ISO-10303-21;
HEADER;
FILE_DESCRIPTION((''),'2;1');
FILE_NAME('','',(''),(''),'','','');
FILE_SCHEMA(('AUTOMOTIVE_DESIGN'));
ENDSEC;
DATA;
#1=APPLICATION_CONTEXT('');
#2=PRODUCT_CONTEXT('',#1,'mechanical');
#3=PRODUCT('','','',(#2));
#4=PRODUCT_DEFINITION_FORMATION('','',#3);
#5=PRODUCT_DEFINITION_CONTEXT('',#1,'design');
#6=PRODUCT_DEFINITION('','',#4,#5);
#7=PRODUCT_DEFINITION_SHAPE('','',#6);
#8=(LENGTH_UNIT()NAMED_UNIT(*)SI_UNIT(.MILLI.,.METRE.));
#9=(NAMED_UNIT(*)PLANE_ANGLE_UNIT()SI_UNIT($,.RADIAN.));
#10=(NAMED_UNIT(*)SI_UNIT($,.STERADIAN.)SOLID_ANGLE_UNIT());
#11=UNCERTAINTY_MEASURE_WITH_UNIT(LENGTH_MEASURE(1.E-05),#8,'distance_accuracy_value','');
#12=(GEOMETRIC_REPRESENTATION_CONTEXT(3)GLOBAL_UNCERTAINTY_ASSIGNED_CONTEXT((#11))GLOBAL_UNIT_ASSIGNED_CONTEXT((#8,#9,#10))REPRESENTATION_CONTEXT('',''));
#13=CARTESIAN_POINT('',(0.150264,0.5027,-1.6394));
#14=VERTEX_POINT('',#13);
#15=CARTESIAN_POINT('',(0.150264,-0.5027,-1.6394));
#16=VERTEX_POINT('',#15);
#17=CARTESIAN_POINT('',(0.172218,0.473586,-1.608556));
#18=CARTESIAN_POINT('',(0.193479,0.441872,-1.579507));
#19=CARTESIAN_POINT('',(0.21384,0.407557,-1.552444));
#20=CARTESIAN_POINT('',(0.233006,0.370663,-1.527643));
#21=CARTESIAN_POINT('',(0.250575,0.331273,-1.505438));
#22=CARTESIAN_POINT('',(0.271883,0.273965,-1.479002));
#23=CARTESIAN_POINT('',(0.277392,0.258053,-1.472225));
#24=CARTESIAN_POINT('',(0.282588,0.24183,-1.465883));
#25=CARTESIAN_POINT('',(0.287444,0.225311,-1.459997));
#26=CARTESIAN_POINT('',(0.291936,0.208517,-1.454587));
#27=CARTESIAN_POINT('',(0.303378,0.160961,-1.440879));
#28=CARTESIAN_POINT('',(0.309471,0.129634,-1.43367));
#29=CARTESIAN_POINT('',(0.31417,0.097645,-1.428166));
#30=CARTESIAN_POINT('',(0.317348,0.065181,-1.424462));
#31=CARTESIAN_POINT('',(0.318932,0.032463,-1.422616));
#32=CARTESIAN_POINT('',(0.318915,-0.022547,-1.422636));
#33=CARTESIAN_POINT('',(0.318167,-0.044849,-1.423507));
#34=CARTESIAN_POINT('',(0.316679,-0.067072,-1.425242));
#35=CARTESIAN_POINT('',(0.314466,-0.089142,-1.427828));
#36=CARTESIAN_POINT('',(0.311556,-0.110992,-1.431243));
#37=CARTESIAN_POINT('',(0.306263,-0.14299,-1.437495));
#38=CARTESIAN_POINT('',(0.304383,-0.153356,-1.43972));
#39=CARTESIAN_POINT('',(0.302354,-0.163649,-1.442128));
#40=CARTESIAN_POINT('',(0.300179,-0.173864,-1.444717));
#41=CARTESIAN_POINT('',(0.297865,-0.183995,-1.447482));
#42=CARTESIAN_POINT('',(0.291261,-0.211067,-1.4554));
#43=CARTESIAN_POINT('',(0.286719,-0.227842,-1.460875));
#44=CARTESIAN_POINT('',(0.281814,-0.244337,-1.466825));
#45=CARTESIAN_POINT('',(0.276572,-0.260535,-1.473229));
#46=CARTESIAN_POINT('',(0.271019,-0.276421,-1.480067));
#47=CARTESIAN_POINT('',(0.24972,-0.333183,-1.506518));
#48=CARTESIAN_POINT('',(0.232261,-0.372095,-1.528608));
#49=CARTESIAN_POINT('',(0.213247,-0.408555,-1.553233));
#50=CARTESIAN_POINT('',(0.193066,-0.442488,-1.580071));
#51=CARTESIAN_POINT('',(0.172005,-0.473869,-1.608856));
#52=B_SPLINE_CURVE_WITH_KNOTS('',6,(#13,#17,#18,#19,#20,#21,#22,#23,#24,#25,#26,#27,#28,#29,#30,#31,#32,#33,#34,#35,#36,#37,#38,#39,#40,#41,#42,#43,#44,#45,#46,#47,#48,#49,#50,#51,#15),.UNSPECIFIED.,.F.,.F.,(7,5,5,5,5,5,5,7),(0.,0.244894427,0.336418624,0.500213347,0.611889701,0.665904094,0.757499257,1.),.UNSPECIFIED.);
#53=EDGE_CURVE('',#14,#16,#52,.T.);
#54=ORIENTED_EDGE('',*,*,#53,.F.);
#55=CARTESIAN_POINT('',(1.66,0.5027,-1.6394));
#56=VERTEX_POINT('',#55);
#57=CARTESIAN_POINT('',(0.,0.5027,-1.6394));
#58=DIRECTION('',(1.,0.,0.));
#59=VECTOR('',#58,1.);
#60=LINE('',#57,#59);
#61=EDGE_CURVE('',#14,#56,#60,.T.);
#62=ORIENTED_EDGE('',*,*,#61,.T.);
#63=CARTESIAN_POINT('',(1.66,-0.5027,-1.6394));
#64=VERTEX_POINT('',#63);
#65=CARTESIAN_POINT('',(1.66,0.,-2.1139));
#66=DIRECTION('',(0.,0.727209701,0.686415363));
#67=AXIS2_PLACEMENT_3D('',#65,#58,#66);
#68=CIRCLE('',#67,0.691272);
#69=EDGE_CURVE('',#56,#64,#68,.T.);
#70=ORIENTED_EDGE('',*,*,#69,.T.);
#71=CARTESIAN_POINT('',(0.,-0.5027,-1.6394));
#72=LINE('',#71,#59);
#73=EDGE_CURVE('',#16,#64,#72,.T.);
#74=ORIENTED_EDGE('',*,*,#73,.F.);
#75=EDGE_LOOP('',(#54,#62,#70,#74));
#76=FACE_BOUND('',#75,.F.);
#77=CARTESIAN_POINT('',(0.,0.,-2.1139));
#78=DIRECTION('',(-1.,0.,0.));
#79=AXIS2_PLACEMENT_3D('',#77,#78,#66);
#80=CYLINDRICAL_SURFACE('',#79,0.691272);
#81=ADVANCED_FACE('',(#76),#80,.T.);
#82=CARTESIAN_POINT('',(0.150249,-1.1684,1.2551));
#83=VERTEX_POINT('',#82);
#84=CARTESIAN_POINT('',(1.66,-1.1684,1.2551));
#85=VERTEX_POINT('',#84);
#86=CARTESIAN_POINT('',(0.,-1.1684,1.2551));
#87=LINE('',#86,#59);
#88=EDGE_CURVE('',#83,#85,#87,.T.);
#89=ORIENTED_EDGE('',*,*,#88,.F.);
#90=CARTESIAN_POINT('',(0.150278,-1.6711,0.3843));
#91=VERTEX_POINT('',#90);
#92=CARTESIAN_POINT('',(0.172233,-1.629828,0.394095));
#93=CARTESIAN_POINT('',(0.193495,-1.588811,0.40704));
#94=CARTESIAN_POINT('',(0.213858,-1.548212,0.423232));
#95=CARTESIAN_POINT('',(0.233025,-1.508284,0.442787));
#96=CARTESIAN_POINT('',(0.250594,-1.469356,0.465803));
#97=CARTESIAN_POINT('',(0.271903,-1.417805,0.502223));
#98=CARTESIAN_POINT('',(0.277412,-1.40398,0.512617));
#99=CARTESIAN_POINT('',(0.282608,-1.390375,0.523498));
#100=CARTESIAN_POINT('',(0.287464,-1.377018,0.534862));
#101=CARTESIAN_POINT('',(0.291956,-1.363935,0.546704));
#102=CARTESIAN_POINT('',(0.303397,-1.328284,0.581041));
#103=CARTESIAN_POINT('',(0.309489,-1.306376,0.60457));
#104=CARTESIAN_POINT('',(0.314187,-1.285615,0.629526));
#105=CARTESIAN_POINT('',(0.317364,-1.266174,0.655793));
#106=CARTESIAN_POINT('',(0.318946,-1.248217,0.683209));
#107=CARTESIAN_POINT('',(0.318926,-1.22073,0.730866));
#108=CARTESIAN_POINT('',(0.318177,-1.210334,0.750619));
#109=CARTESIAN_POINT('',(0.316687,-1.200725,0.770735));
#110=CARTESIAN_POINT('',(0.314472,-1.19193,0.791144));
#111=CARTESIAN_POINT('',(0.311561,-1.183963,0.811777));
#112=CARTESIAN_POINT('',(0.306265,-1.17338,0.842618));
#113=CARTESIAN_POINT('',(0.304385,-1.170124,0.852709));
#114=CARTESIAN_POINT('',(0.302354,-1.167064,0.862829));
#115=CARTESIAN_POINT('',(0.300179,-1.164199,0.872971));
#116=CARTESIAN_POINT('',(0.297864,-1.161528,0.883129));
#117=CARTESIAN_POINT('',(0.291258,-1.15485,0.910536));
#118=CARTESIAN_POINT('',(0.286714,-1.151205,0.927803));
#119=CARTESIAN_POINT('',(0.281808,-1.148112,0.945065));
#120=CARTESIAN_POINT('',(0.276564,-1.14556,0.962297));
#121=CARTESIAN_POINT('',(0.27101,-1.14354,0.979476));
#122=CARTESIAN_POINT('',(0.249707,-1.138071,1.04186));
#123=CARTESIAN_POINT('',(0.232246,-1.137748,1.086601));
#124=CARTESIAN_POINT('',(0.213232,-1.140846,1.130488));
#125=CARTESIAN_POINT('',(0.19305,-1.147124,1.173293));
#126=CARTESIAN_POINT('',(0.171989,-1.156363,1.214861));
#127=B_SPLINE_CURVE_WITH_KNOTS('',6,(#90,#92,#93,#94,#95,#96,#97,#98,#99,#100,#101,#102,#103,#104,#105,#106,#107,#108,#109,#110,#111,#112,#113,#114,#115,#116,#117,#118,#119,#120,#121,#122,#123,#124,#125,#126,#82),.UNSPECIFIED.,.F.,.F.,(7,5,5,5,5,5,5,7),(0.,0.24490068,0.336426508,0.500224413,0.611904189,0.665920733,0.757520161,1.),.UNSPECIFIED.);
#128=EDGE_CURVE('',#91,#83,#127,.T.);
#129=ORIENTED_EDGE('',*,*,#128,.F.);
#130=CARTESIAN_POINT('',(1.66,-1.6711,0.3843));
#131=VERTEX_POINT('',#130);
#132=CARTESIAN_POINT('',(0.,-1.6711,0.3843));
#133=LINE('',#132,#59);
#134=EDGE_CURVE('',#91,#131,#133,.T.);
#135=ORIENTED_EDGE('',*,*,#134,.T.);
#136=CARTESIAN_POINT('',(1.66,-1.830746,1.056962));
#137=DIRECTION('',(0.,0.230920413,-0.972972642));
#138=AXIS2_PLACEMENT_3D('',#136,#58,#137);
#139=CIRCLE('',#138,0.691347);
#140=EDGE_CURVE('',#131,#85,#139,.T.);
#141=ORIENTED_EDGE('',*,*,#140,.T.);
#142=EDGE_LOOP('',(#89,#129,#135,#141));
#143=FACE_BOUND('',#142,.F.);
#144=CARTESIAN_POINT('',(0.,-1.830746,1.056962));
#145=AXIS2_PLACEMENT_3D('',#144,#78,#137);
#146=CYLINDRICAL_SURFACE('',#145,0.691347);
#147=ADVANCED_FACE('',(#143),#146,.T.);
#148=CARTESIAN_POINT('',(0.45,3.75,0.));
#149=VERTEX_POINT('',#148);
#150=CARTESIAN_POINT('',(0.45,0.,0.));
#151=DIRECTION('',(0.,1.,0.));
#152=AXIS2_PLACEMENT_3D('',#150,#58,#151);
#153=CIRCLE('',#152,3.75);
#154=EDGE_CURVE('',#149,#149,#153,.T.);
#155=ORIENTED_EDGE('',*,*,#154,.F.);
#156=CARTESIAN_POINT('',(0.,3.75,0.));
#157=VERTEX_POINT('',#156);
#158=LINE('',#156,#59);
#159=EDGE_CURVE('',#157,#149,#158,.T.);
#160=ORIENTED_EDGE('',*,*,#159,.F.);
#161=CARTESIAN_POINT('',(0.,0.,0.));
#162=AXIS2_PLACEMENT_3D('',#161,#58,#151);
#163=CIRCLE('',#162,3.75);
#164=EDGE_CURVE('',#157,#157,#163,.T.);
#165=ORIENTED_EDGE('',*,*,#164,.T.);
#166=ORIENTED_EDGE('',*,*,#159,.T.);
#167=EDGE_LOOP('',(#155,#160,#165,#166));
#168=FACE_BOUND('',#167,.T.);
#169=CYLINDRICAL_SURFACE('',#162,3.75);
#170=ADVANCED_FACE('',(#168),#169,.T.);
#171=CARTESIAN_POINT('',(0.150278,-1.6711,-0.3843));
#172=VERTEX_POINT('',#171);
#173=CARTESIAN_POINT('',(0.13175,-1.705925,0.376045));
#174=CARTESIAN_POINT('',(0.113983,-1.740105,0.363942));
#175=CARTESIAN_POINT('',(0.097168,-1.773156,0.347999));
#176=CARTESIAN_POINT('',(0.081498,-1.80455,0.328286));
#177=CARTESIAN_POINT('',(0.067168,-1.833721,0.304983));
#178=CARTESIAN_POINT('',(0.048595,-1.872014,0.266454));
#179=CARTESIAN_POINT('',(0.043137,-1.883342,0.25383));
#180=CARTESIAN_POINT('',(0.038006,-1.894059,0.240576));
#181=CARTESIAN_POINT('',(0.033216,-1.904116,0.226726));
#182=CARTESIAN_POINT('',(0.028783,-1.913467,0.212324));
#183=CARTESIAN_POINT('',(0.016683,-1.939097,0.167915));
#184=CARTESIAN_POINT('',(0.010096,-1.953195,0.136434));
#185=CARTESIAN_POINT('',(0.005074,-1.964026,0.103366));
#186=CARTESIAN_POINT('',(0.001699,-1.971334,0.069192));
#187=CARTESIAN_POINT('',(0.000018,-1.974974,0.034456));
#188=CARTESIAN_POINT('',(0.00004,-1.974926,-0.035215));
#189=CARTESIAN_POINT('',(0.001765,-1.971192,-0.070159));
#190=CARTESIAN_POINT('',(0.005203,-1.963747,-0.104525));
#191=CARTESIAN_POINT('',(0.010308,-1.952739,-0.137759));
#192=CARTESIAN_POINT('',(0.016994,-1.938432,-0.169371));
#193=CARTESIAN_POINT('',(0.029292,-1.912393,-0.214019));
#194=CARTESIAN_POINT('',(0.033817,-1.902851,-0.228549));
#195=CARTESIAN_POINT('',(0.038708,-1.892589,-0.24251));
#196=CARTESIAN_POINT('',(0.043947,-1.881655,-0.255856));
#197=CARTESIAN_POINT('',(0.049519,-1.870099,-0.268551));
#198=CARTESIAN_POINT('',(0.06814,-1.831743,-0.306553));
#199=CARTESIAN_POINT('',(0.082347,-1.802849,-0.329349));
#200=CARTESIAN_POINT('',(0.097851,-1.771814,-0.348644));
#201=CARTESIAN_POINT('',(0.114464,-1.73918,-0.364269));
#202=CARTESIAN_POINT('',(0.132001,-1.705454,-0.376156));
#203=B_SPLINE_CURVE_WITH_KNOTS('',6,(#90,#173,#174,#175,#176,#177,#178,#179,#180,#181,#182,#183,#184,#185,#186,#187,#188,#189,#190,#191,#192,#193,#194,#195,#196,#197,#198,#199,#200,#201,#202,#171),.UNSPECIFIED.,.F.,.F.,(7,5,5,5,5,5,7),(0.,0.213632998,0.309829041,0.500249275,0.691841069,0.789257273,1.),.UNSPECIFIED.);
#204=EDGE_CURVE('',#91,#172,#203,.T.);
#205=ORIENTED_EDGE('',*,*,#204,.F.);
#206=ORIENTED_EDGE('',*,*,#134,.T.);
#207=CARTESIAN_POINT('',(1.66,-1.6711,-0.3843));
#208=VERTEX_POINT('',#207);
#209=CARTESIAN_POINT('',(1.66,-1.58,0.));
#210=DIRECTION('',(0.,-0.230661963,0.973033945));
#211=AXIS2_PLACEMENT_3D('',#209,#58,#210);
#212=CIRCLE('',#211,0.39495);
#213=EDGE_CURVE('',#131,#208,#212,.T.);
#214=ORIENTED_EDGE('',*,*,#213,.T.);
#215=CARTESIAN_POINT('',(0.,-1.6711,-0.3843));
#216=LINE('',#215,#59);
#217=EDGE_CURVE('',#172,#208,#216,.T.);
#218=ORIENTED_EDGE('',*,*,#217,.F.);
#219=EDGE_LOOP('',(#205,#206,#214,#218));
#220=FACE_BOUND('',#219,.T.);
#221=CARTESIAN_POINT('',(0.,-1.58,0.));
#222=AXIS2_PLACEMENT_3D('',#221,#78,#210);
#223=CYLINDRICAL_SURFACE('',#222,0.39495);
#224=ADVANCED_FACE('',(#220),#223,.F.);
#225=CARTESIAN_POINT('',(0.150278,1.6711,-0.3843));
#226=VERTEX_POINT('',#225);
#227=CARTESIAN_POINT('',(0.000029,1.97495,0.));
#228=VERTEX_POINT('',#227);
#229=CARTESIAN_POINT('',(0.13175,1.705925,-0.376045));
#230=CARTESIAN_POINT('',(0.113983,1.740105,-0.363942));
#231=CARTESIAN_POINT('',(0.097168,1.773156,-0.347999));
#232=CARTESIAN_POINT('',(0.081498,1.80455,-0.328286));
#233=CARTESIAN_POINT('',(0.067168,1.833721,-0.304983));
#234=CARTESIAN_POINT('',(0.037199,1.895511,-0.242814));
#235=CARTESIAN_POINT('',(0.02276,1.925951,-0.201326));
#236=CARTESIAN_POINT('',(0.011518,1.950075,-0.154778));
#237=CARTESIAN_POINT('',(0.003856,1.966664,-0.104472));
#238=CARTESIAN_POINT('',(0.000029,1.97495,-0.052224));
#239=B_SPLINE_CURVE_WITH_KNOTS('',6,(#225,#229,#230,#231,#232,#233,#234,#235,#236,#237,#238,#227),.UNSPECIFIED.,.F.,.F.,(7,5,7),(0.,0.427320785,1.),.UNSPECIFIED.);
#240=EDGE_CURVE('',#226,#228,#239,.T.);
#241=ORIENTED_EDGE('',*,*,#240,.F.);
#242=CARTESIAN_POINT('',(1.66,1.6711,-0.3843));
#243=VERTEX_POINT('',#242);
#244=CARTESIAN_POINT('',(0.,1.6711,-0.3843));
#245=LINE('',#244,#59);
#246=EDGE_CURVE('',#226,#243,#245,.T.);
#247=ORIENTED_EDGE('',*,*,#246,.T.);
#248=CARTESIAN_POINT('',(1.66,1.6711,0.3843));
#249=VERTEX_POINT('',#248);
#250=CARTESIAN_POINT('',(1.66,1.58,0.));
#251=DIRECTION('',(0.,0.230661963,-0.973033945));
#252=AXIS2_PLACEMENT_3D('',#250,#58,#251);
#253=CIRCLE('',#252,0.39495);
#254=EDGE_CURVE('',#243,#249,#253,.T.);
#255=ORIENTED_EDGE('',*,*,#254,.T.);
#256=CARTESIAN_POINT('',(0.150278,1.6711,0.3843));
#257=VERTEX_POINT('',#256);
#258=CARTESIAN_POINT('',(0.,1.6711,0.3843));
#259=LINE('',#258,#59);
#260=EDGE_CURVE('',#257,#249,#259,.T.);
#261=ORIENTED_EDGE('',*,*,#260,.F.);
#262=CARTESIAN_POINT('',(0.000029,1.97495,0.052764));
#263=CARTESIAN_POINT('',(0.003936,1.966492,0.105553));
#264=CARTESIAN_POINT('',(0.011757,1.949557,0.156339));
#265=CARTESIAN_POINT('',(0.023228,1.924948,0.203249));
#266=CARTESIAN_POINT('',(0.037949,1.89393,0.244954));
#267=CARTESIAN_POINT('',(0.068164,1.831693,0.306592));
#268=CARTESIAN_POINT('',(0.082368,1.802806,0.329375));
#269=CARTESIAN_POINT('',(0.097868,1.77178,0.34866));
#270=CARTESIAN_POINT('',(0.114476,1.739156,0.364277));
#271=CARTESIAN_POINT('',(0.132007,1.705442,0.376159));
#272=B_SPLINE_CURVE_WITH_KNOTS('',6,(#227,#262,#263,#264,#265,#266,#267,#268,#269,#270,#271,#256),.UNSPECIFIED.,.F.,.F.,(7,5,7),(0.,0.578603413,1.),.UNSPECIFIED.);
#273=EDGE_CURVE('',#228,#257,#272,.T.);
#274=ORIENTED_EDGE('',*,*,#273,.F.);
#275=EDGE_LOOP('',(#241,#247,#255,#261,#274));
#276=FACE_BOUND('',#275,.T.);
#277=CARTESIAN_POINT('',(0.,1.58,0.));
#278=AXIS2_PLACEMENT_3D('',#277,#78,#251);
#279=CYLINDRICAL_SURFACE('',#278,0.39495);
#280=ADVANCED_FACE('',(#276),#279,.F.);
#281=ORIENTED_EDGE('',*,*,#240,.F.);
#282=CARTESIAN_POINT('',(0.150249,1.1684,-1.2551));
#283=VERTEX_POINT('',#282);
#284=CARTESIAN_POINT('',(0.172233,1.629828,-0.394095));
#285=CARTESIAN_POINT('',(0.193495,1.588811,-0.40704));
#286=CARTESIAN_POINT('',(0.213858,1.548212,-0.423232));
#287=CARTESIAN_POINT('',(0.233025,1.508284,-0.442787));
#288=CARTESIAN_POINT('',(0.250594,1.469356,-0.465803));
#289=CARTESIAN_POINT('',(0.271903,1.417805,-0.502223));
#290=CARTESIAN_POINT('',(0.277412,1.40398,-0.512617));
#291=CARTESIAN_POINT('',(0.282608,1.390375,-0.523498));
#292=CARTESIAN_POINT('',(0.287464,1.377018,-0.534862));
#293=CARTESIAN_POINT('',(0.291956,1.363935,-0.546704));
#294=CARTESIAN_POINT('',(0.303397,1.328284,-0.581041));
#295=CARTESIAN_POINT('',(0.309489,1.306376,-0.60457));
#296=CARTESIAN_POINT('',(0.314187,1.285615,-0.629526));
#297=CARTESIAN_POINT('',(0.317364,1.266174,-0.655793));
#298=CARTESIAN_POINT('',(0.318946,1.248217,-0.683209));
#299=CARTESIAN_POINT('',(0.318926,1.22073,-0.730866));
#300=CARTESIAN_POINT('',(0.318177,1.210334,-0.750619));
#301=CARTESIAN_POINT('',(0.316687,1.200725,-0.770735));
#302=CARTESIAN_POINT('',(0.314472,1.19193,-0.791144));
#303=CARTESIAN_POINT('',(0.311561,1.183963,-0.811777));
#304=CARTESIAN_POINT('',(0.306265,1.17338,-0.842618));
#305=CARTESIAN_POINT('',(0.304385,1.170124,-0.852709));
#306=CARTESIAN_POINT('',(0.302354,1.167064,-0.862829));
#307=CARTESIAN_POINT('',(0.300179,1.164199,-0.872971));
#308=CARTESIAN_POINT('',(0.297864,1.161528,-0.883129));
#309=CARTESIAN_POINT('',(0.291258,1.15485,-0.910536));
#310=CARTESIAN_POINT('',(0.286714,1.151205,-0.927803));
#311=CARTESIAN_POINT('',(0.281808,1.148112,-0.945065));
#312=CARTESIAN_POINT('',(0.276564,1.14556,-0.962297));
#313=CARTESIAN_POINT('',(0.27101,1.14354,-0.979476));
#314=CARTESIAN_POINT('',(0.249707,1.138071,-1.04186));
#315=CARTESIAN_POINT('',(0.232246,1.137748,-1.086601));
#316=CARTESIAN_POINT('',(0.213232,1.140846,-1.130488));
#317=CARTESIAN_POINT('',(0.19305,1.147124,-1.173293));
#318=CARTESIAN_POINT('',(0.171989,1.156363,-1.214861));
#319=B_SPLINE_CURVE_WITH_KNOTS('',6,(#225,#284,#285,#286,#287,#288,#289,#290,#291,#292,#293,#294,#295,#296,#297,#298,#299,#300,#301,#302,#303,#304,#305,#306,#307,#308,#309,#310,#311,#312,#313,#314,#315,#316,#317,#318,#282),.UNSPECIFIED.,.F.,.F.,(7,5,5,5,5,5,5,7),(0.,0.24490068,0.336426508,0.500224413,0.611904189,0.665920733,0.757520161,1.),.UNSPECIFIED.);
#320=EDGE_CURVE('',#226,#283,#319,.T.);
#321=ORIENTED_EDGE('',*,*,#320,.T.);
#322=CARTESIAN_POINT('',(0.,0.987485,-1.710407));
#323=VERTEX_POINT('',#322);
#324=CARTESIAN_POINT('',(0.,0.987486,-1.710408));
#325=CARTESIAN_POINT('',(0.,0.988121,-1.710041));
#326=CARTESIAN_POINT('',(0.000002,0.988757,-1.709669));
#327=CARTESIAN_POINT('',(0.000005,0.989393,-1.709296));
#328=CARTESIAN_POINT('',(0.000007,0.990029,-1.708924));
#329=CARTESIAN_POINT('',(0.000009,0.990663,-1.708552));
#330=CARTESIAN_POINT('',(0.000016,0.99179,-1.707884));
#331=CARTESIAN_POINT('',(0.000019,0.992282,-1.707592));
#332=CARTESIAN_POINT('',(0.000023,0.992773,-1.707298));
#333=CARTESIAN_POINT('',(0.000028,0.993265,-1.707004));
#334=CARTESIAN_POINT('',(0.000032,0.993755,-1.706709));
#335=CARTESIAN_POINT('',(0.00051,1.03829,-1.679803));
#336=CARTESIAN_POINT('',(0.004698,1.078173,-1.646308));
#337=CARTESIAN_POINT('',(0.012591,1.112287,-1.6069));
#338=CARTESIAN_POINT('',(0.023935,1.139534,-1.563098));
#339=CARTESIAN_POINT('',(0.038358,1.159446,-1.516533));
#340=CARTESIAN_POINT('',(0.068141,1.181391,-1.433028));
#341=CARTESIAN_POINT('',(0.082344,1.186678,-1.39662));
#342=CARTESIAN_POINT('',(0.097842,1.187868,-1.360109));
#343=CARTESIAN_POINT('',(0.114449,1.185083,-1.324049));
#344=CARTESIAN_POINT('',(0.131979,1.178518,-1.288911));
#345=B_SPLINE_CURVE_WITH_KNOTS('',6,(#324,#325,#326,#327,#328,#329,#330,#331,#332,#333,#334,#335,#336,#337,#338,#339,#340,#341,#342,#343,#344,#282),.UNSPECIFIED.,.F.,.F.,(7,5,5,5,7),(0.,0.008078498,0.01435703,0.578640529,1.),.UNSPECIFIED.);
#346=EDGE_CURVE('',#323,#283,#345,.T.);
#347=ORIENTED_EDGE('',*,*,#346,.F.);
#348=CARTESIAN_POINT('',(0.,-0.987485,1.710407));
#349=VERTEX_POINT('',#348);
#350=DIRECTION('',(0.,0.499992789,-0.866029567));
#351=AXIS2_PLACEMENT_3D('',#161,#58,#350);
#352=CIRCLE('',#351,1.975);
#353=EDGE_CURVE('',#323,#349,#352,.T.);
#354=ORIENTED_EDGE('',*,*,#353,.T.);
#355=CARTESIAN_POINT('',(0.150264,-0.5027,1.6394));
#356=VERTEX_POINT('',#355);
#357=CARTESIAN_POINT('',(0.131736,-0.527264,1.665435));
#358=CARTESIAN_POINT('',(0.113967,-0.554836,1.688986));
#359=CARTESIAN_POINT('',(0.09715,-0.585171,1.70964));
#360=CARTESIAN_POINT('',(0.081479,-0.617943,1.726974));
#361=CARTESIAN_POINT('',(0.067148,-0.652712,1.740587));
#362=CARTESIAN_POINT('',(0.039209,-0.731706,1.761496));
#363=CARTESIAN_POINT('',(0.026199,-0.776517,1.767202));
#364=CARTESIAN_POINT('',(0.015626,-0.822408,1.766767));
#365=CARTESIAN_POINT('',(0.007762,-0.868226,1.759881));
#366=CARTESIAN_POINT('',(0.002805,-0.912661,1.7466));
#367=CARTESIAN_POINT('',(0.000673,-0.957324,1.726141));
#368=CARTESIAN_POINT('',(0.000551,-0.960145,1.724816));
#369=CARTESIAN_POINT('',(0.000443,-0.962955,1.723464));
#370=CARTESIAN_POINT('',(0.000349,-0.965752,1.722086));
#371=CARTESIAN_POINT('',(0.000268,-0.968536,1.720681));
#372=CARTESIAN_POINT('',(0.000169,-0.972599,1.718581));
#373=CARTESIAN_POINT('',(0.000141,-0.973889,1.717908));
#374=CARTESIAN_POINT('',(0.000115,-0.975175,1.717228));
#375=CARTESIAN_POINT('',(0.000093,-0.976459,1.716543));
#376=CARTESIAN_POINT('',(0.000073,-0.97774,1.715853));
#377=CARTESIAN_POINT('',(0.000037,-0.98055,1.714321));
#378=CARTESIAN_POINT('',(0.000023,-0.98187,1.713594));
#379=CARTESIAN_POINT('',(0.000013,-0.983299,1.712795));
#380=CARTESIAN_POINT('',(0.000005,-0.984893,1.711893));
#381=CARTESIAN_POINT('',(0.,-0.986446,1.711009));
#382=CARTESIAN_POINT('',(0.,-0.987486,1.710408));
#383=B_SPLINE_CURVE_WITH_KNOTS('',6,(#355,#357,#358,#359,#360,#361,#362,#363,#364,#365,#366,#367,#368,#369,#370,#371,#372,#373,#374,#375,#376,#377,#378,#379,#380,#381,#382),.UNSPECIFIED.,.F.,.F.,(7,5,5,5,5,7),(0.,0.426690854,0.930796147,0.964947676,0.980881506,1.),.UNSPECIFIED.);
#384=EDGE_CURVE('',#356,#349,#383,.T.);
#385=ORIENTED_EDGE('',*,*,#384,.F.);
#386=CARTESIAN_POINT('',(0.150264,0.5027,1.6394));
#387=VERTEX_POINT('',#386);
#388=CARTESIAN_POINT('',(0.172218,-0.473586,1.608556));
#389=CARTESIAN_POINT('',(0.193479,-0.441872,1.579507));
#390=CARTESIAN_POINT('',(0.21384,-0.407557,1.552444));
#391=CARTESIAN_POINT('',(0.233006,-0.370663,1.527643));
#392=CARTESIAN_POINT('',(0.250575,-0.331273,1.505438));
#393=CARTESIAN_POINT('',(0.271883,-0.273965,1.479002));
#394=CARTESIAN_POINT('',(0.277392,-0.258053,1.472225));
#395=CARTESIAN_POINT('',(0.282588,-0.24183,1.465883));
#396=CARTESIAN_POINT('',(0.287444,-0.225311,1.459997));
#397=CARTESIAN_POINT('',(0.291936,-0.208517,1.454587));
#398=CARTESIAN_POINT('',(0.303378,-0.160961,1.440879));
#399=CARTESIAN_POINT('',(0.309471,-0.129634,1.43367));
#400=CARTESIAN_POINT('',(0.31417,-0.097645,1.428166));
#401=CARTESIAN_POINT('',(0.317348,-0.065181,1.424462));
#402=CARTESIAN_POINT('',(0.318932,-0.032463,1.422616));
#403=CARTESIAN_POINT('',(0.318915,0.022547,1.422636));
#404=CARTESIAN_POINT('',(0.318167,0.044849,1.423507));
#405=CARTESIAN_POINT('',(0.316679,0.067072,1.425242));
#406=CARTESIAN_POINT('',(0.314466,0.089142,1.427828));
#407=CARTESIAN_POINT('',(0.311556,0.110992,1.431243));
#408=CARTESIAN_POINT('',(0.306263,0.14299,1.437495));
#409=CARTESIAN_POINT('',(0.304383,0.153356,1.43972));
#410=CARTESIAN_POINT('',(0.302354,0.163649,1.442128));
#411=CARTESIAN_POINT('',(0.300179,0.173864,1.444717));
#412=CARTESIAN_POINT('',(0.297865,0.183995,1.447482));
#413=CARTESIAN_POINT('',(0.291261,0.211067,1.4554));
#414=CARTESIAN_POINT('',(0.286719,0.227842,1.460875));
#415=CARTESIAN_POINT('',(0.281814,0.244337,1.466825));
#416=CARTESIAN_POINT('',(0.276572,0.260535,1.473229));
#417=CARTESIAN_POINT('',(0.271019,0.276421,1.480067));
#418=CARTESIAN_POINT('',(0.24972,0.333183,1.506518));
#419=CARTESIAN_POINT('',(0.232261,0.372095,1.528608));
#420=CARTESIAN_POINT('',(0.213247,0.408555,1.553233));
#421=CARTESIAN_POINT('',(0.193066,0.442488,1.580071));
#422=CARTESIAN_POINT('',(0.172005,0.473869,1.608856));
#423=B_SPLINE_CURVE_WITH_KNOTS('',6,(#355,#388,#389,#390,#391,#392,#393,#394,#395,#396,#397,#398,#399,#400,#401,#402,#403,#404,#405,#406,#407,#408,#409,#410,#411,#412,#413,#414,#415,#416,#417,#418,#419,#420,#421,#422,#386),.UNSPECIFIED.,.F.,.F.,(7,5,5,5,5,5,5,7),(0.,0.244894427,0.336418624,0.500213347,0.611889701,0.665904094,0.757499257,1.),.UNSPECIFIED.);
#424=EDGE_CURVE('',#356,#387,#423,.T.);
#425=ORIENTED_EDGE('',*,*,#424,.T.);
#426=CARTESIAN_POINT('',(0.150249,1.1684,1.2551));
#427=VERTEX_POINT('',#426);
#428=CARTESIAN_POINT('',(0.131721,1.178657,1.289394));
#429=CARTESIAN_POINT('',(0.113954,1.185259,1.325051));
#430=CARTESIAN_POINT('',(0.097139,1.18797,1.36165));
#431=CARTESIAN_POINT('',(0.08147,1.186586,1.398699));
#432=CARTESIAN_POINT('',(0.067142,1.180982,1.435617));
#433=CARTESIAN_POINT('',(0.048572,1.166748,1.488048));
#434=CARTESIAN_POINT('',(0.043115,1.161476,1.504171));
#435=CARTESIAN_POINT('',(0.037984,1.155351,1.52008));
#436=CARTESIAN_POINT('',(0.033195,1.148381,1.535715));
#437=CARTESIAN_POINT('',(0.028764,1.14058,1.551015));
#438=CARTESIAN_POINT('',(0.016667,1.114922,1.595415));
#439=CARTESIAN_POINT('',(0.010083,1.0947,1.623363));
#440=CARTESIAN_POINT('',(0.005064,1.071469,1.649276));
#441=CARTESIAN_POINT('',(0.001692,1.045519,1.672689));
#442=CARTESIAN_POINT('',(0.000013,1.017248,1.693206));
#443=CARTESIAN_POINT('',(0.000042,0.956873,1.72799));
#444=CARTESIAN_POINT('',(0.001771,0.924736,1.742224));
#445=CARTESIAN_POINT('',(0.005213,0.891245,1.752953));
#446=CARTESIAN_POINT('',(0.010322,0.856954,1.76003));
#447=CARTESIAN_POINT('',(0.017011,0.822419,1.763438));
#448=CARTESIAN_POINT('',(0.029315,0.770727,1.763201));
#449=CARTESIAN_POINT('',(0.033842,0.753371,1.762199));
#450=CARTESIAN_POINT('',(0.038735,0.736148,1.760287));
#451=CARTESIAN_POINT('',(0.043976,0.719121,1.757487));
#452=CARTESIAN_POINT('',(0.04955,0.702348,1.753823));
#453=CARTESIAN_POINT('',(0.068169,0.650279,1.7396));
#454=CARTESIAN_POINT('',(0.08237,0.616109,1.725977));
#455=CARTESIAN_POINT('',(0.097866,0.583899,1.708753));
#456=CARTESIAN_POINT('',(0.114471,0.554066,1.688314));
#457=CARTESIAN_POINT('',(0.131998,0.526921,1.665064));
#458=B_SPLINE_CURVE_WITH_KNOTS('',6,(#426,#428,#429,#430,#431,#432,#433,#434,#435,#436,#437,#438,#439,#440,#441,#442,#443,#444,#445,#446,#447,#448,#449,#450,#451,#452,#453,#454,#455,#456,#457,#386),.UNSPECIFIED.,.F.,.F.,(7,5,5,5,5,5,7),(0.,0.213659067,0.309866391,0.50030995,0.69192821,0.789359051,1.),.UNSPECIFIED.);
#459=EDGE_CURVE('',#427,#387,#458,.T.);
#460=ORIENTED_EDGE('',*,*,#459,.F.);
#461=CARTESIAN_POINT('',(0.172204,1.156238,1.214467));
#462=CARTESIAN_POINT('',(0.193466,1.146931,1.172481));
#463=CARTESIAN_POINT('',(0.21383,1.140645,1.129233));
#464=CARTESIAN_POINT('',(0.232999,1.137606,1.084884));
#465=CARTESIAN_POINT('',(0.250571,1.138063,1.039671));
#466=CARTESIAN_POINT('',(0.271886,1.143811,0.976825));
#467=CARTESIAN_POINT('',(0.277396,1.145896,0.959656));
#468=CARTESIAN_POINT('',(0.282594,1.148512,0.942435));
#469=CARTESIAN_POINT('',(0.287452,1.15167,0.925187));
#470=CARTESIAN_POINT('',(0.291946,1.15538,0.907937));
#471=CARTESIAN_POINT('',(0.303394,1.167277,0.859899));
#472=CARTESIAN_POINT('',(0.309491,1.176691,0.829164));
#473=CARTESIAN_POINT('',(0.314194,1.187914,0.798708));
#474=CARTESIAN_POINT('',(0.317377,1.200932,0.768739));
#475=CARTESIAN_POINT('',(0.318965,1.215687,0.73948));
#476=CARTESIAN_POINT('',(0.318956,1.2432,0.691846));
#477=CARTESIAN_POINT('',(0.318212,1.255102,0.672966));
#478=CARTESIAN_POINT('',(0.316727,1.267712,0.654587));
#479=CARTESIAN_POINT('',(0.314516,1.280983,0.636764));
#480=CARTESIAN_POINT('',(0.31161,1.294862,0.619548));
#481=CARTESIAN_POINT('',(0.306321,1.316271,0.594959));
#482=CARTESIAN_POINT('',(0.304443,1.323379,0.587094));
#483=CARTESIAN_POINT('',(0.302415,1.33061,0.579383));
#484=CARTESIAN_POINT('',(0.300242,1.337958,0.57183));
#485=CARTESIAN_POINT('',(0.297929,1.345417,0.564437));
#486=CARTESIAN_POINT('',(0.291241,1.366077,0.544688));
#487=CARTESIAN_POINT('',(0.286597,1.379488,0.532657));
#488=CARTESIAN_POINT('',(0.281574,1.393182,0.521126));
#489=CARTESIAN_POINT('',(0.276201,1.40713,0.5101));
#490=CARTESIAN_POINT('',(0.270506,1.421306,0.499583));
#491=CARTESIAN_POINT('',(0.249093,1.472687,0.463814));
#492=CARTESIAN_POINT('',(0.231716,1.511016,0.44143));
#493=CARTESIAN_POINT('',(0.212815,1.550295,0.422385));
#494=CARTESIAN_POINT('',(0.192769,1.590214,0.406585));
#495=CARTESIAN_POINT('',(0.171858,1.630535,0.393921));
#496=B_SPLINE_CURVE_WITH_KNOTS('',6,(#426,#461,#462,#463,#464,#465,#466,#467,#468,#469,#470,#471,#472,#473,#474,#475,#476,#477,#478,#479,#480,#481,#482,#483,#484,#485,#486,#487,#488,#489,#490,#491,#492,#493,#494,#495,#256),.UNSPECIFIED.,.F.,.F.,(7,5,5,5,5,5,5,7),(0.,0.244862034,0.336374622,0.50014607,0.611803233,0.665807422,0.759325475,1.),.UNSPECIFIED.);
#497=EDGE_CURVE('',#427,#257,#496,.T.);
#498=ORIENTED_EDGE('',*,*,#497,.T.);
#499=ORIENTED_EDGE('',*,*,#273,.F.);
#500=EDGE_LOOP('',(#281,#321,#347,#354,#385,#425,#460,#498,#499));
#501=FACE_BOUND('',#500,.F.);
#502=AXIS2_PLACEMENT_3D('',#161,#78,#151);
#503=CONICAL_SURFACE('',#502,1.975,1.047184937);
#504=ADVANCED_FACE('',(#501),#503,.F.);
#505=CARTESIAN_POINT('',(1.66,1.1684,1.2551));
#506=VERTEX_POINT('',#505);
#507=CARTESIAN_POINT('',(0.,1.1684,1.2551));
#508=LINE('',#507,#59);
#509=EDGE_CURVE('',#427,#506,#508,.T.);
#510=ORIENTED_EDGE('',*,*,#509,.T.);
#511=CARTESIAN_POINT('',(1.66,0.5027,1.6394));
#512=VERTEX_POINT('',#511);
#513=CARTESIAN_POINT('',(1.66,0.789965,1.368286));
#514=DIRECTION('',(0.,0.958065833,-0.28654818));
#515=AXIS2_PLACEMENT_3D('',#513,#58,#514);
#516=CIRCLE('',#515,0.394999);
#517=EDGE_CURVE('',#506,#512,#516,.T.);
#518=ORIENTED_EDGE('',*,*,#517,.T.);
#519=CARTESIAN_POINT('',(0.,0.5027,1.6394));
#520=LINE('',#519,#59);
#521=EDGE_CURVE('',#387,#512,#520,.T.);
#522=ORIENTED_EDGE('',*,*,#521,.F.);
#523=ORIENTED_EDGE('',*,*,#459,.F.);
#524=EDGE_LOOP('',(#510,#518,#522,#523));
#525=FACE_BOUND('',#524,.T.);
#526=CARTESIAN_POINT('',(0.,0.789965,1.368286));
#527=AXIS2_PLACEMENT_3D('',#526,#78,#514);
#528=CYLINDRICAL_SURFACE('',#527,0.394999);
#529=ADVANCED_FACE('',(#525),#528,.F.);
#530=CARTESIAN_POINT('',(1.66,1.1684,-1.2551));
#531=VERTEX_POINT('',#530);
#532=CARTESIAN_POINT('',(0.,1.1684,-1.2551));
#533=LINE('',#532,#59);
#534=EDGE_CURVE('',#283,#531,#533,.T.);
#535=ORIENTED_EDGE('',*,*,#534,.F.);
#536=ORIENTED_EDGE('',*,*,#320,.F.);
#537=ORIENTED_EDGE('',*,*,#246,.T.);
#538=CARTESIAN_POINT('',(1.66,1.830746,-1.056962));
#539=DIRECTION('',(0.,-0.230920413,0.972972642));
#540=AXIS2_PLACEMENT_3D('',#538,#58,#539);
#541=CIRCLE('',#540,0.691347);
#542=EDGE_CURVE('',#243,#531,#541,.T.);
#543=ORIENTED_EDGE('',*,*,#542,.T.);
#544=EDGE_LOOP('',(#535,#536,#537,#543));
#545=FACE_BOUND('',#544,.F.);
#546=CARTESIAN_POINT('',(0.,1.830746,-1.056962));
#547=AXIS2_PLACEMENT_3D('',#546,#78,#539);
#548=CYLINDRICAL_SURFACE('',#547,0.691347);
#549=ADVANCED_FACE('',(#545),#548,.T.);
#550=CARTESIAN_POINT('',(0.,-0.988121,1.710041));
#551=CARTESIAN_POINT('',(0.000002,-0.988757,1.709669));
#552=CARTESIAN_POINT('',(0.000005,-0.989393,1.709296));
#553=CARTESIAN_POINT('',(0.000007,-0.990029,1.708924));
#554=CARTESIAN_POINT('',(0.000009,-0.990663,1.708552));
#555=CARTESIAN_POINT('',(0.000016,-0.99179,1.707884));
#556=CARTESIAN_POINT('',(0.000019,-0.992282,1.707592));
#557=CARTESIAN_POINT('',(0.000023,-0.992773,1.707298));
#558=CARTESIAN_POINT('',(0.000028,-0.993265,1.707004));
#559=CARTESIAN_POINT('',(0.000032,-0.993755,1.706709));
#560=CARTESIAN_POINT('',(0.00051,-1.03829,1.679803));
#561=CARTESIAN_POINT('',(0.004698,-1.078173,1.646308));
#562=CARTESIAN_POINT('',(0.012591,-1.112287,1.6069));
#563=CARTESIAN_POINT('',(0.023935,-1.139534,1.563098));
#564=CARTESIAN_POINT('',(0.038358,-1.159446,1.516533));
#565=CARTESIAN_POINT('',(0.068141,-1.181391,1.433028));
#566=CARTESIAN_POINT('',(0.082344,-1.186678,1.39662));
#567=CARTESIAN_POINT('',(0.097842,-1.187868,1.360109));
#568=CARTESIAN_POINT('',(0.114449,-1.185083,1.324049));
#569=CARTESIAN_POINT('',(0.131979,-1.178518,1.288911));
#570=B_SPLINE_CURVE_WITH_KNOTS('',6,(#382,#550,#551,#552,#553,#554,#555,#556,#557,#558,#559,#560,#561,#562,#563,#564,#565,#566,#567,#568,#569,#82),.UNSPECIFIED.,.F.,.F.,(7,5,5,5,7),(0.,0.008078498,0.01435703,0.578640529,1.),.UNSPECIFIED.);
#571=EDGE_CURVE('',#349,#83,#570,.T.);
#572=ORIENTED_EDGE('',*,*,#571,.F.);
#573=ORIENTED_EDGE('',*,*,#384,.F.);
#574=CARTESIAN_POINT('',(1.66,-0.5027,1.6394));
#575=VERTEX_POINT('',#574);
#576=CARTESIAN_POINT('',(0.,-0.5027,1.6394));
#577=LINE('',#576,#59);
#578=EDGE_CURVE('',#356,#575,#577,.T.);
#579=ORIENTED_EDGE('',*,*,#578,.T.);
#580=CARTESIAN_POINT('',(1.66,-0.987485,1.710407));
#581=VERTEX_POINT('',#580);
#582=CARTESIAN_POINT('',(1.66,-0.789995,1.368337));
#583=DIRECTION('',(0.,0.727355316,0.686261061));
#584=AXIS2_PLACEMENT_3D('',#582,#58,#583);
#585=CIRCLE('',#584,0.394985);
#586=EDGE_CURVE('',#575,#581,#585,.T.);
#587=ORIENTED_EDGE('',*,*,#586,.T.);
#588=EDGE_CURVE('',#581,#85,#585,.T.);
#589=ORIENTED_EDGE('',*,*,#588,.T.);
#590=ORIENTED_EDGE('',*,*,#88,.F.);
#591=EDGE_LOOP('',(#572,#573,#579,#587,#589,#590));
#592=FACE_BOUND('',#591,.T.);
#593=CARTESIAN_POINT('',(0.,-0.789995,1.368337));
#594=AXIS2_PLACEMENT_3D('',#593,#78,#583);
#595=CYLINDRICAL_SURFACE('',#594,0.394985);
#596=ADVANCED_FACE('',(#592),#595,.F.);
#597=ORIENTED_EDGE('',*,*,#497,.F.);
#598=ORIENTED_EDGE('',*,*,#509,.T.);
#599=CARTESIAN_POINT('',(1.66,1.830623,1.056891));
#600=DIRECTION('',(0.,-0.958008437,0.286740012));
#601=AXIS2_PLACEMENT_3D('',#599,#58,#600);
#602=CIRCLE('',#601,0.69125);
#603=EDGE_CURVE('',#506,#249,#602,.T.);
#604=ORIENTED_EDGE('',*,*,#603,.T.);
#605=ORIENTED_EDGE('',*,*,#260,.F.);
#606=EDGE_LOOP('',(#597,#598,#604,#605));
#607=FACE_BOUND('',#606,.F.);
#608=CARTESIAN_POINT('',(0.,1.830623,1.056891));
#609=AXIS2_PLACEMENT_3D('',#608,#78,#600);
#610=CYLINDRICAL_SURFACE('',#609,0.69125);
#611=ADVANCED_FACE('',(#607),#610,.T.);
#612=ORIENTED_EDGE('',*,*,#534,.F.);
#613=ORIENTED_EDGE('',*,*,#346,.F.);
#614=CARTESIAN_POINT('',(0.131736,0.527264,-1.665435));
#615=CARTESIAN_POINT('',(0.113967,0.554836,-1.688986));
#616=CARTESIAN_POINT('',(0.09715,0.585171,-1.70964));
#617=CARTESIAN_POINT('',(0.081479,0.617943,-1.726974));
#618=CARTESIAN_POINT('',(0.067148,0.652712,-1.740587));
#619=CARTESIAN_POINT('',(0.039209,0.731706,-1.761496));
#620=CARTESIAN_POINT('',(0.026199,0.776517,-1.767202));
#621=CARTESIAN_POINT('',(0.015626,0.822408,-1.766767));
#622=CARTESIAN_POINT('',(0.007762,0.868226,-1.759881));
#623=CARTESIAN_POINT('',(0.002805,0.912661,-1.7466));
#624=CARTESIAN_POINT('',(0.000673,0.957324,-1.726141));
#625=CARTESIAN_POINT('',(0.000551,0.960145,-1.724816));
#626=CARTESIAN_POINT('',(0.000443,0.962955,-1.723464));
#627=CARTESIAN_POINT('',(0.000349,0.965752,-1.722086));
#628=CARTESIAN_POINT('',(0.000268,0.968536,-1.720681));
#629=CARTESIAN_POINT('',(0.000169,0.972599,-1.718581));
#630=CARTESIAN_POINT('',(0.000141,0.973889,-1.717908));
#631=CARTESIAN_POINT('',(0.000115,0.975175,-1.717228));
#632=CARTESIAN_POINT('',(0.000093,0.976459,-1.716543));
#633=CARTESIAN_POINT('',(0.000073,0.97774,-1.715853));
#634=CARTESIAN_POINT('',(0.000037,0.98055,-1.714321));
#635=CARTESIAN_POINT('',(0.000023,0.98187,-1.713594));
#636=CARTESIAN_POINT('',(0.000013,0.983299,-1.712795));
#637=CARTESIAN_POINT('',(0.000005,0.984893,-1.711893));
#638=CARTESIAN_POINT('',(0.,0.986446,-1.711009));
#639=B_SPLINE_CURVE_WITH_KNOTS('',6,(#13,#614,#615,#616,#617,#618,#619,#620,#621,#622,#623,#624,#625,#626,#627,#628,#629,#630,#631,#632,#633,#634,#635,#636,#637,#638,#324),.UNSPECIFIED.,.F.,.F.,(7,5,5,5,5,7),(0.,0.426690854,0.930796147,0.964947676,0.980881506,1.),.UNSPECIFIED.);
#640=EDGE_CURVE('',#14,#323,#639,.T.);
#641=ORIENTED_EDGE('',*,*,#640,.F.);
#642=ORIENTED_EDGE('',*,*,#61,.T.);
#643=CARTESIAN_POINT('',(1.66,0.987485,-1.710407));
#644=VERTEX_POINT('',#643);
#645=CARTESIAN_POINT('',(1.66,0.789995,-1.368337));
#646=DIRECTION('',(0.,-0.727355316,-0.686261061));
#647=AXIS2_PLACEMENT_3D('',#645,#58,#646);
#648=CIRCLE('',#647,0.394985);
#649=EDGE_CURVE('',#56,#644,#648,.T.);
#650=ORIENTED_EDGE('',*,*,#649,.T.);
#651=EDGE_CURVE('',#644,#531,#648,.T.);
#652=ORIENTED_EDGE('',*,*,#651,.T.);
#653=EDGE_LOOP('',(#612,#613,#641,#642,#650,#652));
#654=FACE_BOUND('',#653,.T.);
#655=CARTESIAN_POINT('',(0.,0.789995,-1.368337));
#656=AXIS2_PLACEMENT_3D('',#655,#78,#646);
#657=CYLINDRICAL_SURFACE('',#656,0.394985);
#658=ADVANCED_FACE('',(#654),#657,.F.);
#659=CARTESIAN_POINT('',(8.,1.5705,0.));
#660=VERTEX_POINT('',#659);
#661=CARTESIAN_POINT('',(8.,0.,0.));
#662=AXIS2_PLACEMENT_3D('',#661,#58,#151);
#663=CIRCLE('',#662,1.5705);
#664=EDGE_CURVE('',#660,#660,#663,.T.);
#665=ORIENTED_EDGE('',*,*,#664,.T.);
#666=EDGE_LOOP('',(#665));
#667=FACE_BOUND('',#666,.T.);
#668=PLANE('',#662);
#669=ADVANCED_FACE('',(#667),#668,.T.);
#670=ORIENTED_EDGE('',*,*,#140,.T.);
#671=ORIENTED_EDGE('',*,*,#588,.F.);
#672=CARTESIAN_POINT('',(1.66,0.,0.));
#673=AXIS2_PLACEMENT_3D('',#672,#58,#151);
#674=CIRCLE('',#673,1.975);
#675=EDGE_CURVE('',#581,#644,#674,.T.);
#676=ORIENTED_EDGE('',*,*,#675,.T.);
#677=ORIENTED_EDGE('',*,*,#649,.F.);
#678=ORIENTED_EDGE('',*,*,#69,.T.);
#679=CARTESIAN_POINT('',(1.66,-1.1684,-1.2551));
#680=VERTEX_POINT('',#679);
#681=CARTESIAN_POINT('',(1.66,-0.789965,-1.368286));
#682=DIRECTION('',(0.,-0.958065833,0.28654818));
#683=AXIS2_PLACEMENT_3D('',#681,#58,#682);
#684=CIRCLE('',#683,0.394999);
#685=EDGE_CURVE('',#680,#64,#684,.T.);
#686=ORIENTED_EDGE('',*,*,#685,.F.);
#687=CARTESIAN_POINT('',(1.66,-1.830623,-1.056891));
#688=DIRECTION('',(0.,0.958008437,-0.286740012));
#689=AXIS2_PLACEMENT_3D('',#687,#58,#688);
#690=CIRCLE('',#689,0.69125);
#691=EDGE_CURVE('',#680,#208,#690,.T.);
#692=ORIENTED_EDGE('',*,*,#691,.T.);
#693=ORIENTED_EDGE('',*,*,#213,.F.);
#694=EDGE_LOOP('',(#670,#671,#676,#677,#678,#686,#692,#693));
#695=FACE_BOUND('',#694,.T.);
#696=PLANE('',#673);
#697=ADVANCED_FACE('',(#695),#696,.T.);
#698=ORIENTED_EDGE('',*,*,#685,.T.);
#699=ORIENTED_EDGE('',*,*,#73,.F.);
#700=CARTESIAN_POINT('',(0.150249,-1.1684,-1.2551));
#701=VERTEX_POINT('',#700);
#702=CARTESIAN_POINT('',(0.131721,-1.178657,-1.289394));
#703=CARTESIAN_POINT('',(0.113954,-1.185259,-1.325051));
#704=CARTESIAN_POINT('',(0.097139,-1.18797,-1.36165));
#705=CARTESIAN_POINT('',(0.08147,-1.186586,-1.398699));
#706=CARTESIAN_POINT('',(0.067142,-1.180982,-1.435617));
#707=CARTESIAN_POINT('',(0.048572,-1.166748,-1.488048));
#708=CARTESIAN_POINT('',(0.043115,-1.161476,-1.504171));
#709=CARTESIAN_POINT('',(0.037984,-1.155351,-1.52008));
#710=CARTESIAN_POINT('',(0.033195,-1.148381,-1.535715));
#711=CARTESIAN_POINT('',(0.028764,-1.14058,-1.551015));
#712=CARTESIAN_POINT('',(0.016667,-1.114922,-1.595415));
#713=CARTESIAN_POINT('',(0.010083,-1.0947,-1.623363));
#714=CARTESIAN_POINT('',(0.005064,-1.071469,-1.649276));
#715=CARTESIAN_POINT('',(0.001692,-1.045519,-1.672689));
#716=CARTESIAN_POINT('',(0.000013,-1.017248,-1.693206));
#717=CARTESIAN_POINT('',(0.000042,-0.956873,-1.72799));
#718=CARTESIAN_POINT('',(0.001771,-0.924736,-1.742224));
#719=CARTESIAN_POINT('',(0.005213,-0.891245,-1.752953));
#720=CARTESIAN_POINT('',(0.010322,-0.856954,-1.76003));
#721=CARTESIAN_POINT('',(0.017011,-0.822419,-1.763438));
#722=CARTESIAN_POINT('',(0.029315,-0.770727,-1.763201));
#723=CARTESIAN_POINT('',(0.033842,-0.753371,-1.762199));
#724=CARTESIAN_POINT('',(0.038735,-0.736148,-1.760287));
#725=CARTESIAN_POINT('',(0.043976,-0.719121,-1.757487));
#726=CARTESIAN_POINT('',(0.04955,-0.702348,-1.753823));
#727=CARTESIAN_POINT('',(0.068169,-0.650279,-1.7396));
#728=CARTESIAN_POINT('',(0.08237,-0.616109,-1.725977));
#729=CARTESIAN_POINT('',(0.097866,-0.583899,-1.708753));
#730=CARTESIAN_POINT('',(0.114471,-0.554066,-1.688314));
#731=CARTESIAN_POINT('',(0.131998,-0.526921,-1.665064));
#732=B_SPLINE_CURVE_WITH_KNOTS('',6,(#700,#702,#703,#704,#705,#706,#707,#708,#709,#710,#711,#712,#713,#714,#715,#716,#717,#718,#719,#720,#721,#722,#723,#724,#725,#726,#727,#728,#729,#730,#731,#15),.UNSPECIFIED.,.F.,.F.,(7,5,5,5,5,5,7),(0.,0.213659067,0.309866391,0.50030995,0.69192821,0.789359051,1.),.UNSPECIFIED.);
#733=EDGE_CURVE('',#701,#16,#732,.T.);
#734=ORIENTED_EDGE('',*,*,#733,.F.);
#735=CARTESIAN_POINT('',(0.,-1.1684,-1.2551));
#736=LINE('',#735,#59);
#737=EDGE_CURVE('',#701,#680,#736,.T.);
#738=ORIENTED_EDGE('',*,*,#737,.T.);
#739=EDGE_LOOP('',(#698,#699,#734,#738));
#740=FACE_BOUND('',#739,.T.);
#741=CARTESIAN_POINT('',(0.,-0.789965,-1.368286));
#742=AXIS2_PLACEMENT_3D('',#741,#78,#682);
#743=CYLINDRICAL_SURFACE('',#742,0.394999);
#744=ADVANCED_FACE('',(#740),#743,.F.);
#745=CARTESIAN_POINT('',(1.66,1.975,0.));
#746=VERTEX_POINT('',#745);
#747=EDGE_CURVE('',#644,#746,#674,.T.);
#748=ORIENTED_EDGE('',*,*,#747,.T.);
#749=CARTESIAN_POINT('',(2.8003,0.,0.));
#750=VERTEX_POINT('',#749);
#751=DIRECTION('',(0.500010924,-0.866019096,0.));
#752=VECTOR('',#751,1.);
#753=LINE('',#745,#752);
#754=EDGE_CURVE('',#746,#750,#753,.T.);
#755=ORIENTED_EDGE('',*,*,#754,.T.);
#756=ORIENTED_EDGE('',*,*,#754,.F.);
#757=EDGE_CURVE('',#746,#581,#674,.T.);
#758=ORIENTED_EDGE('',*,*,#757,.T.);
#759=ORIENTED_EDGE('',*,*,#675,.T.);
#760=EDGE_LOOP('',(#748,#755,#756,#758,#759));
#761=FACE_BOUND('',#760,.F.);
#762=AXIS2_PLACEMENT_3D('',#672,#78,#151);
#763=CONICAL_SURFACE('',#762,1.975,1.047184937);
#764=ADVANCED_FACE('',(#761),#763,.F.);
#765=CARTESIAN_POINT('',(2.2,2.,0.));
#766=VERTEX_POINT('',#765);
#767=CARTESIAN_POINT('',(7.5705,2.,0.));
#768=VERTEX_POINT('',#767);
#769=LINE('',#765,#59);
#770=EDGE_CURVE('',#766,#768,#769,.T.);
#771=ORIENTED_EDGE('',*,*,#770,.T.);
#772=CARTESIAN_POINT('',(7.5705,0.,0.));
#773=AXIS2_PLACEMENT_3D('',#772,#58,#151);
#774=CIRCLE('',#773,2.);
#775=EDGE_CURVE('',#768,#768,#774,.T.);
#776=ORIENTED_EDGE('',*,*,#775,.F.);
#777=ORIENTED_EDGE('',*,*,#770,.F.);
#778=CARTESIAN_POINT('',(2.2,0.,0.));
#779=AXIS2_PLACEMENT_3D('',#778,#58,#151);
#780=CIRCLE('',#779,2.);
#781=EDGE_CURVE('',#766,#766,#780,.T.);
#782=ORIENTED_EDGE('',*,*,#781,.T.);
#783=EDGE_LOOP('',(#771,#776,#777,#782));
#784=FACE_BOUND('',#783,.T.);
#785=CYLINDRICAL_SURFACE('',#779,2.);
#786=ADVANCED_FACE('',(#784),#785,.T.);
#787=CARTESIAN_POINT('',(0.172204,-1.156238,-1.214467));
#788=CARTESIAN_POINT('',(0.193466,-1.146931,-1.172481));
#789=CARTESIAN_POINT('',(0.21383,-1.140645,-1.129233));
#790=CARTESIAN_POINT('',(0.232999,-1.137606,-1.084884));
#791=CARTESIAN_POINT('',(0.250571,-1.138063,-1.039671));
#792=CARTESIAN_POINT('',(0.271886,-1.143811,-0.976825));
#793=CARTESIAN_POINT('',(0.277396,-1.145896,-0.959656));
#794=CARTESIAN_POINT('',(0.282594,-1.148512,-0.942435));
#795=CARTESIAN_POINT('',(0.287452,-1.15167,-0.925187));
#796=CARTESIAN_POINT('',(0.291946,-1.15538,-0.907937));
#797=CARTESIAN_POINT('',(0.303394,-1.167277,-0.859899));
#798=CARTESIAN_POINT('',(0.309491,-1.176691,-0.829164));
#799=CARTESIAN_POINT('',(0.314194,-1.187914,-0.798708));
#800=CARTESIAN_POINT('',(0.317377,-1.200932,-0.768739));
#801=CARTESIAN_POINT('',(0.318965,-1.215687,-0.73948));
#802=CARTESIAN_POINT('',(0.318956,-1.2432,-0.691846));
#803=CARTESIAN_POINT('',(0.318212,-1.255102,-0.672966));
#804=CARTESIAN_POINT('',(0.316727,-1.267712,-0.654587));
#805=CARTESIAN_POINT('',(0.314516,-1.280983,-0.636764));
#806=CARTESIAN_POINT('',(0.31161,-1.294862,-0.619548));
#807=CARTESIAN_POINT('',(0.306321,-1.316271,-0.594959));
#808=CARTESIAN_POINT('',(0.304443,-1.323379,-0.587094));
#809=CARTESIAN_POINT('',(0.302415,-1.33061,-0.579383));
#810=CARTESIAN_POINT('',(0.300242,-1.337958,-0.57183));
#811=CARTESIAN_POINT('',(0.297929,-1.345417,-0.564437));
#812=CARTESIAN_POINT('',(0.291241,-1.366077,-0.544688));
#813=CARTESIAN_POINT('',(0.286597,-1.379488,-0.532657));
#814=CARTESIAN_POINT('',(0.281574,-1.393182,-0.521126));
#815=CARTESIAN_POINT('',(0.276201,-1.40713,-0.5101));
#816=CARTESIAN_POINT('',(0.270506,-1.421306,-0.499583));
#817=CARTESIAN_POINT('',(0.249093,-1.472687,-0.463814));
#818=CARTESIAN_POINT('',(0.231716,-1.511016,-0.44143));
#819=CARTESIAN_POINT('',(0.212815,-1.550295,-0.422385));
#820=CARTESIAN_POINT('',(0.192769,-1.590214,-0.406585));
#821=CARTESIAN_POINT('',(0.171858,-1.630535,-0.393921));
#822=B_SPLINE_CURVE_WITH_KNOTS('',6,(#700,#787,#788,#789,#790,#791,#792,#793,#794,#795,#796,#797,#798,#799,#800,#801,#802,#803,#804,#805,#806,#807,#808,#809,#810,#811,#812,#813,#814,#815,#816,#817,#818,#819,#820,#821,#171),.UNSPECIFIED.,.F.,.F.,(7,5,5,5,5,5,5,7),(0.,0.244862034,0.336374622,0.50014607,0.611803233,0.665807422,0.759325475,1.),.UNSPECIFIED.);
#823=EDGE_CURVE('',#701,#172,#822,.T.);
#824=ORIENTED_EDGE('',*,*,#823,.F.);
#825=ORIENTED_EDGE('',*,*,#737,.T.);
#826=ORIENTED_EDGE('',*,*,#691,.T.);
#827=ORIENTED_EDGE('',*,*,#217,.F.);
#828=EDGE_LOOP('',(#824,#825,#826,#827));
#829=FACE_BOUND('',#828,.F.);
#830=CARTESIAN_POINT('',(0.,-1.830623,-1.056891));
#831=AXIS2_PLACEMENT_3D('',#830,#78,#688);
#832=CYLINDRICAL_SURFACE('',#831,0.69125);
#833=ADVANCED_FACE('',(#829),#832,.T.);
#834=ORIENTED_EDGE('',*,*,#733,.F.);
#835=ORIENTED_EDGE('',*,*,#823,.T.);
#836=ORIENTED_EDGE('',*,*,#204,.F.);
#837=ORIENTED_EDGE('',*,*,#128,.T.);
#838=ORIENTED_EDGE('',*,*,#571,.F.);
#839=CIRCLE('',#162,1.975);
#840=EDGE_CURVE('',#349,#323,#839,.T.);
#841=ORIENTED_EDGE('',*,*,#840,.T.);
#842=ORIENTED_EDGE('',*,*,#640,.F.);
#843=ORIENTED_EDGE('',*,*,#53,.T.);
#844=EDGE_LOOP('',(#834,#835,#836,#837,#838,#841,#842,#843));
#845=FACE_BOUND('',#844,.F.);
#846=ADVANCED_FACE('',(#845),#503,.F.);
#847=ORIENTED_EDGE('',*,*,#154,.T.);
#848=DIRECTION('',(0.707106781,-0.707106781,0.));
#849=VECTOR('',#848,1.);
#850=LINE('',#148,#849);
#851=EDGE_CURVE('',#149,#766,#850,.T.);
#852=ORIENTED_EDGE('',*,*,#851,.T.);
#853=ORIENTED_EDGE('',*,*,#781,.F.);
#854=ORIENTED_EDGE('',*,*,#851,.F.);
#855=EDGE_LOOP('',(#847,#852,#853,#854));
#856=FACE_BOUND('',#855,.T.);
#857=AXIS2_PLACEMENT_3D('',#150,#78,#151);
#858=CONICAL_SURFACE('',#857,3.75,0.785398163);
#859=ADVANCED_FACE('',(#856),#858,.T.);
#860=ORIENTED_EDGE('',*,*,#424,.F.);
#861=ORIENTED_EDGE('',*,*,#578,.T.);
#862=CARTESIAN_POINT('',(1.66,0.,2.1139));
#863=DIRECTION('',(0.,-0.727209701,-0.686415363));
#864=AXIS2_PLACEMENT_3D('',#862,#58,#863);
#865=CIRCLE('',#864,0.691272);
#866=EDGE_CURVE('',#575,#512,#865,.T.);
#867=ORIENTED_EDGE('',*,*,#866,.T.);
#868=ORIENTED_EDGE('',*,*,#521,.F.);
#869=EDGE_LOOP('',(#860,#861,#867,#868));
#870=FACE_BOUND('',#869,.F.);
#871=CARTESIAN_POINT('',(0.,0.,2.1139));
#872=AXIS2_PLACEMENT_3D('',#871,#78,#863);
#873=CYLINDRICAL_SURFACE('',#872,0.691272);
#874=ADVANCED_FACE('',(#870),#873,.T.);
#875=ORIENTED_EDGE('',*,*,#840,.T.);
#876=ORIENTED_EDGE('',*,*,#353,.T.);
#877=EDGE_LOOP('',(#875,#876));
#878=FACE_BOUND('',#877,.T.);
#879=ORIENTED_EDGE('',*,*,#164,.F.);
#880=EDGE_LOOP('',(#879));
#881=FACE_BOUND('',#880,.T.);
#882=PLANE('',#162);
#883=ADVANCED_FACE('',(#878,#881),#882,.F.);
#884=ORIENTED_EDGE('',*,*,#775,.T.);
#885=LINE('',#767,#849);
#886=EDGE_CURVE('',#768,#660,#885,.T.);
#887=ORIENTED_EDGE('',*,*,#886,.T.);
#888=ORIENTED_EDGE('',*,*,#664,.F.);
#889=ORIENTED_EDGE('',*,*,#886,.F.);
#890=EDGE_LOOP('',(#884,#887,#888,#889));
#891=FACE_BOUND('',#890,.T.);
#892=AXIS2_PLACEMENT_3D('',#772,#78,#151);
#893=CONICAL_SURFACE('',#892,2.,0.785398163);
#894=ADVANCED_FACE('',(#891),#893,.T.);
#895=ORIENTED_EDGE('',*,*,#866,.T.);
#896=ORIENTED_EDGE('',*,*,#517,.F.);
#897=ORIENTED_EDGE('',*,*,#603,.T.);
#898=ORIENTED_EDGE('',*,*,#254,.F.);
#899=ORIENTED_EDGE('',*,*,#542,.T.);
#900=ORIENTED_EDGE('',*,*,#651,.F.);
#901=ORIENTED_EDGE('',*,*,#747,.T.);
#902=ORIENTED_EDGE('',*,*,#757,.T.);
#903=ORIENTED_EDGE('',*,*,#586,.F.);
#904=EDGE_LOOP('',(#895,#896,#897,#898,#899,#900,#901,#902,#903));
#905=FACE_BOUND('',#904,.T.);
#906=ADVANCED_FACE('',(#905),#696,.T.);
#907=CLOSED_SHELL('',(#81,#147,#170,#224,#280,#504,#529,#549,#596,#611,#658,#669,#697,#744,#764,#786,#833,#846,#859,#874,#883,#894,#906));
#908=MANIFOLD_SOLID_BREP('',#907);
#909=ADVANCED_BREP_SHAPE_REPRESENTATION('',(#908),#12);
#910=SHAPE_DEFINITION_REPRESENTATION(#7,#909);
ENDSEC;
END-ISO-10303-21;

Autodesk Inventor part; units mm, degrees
sketch "Skizze_5" plane through (0, 0, 0) normal (0, 0, 1) x (1, 0, 0)
  line L0 (8, 0) -> (0, 0)
  line L1 (0, 0) -> (0, 3.75)
  line L2 (0, 3.75) -> (0.45, 3.75)
  line L3 (0.45, 3.75) -> (2.2, 2)
  line L4 (2.2, 2) -> (7.5705, 2)
  line L5 (7.5705, 2) -> (8, 1.5705)
  line L6 (8, 1.5705) -> (8, 0)
  line L7 (8, 0) -> (0, 0)
revolve "Revolution1" add sketch "Skizze_5" angle 360 about axis through (8, 0, 0) along (1, 0, 0)
thread "Thread1" size "M4x0.7" class "6g" standard "ISO Metric profile" length 3.9705
sketch "Sketch_1" plane through (0, 0, 0) normal (0, 0, 1) x (1, 0, 0)
  line L0 (1.66, 0) -> (0, 0)
  line L1 (0, 0) -> (0, 1.975)
  line L2 (0, 1.975) -> (1.66, 1.975)
  line L3 (1.66, 1.975) -> (1.66, 0)
  line L4 (1.66, 0) -> (0, 0)
revolve "Revolution2" cut sketch "Sketch_1" angle 360 about axis through (1.66, 0, 0) along (1, 0, 0)
sketch "Sketch_2" plane through (0, 0, 0) normal (0, 0, 1) x (1, 0, 0)
  line L0 (2.8003, 0) -> (1.66, 0)
  line L1 (1.66, 0) -> (1.66, 1.975)
  line L2 (1.66, 1.975) -> (2.8003, 0)
  line L3 (2.8003, 0) -> (1.66, 0)
revolve "Revolution3" cut sketch "Sketch_2" angle 360 about axis through (2.8003, 0, 0) along (1, 0, 0)
sketch "Sketch_3" plane through (0, 0, 0) normal (1, 0, 0) x (0, 1, 0)
  circle A0 centre (0, 0) radius 2.37
  arc A1 (-0.5027, 1.6394) -> (-1.1684, 1.2551) centre (-0.79, 1.3683) ccw
  arc A2 (-1.6711, 0.3843) -> (-1.1684, 1.2551) centre (-1.8307, 1.0569) ccw
  arc A3 (-1.6711, 0.3843) -> (-1.6711, -0.3843) centre (-1.58, 0) ccw
  arc A4 (-1.1684, -1.2551) -> (-1.6711, -0.3843) centre (-1.8307, -1.0569) ccw
  arc A5 (-1.1684, -1.2551) -> (-0.5027, -1.6394) centre (-0.79, -1.3683) ccw
  arc A6 (0.5027, -1.6394) -> (-0.5027, -1.6394) centre (0, -2.1139) ccw
  arc A7 (0.5027, -1.6394) -> (1.1684, -1.2551) centre (0.79, -1.3683) ccw
  arc A8 (1.6711, -0.3843) -> (1.1684, -1.2551) centre (1.8307, -1.0569) ccw
  arc A9 (1.6711, -0.3843) -> (1.6711, 0.3843) centre (1.58, 0) ccw
  arc A10 (1.1684, 1.2551) -> (1.6711, 0.3843) centre (1.8307, 1.0569) ccw
  arc A11 (1.1684, 1.2551) -> (0.5027, 1.6394) centre (0.79, 1.3683) ccw
  arc A12 (-0.5027, 1.6394) -> (0.5027, 1.6394) centre (0, 2.1139) ccw
extrude "Extrusion1" add sketch "Sketch_3" along normal blind 1.66
sketch "Sketch_4" plane through (0, 0, 0) normal (0, 0, 1) x (1, 0, 0)
  line L0 (1.1403, 0) -> (-1.66, 0)
  line L1 (-1.66, 0) -> (-1.66, 1.975)
  line L2 (-1.66, 1.975) -> (0, 1.975)
  line L3 (0, 1.975) -> (1.1403, 0)
  line L4 (1.1403, 0) -> (-1.66, 0)
revolve "Revolution4" cut sketch "Sketch_4" angle 360 about axis through (1.1403, 0, 0) along (1, 0, 0)
ref_plane "IP1_XY" through (0, 0, 0) normal (1, 0, 0) x (0, 0, -1)
ref_plane "IP1_YZ" through (0, 0, 0) normal (0, 0, -1) x (0, 1, 0)
ref_plane "IP1_ZX" through (0, 0, 0) normal (0, 1, 0) x (1, 0, 0)
ref_plane "IP2_XY" through (2.2, 0, 0) normal (1, 0, 0) x (0, 0, -1)
ref_plane "IP2_YZ" through (2.2, 0, 0) normal (0, 0, -1) x (0, 1, 0)
ref_plane "IP2_ZX" through (2.2, 0, 0) normal (0, 1, 0) x (1, 0, 0)
ref_plane "IP3_XY" through (8, 0, 0) normal (1, 0, 0) x (0, 0, -1)
ref_plane "IP3_YZ" through (8, 0, 0) normal (0, 0, -1) x (0, 1, 0)
ref_plane "IP3_ZX" through (8, 0, 0) normal (0, 1, 0) x (1, 0, 0)
properties part number "Senkschraube DIN ≈965 M4x8 51305.040.008(High)"
